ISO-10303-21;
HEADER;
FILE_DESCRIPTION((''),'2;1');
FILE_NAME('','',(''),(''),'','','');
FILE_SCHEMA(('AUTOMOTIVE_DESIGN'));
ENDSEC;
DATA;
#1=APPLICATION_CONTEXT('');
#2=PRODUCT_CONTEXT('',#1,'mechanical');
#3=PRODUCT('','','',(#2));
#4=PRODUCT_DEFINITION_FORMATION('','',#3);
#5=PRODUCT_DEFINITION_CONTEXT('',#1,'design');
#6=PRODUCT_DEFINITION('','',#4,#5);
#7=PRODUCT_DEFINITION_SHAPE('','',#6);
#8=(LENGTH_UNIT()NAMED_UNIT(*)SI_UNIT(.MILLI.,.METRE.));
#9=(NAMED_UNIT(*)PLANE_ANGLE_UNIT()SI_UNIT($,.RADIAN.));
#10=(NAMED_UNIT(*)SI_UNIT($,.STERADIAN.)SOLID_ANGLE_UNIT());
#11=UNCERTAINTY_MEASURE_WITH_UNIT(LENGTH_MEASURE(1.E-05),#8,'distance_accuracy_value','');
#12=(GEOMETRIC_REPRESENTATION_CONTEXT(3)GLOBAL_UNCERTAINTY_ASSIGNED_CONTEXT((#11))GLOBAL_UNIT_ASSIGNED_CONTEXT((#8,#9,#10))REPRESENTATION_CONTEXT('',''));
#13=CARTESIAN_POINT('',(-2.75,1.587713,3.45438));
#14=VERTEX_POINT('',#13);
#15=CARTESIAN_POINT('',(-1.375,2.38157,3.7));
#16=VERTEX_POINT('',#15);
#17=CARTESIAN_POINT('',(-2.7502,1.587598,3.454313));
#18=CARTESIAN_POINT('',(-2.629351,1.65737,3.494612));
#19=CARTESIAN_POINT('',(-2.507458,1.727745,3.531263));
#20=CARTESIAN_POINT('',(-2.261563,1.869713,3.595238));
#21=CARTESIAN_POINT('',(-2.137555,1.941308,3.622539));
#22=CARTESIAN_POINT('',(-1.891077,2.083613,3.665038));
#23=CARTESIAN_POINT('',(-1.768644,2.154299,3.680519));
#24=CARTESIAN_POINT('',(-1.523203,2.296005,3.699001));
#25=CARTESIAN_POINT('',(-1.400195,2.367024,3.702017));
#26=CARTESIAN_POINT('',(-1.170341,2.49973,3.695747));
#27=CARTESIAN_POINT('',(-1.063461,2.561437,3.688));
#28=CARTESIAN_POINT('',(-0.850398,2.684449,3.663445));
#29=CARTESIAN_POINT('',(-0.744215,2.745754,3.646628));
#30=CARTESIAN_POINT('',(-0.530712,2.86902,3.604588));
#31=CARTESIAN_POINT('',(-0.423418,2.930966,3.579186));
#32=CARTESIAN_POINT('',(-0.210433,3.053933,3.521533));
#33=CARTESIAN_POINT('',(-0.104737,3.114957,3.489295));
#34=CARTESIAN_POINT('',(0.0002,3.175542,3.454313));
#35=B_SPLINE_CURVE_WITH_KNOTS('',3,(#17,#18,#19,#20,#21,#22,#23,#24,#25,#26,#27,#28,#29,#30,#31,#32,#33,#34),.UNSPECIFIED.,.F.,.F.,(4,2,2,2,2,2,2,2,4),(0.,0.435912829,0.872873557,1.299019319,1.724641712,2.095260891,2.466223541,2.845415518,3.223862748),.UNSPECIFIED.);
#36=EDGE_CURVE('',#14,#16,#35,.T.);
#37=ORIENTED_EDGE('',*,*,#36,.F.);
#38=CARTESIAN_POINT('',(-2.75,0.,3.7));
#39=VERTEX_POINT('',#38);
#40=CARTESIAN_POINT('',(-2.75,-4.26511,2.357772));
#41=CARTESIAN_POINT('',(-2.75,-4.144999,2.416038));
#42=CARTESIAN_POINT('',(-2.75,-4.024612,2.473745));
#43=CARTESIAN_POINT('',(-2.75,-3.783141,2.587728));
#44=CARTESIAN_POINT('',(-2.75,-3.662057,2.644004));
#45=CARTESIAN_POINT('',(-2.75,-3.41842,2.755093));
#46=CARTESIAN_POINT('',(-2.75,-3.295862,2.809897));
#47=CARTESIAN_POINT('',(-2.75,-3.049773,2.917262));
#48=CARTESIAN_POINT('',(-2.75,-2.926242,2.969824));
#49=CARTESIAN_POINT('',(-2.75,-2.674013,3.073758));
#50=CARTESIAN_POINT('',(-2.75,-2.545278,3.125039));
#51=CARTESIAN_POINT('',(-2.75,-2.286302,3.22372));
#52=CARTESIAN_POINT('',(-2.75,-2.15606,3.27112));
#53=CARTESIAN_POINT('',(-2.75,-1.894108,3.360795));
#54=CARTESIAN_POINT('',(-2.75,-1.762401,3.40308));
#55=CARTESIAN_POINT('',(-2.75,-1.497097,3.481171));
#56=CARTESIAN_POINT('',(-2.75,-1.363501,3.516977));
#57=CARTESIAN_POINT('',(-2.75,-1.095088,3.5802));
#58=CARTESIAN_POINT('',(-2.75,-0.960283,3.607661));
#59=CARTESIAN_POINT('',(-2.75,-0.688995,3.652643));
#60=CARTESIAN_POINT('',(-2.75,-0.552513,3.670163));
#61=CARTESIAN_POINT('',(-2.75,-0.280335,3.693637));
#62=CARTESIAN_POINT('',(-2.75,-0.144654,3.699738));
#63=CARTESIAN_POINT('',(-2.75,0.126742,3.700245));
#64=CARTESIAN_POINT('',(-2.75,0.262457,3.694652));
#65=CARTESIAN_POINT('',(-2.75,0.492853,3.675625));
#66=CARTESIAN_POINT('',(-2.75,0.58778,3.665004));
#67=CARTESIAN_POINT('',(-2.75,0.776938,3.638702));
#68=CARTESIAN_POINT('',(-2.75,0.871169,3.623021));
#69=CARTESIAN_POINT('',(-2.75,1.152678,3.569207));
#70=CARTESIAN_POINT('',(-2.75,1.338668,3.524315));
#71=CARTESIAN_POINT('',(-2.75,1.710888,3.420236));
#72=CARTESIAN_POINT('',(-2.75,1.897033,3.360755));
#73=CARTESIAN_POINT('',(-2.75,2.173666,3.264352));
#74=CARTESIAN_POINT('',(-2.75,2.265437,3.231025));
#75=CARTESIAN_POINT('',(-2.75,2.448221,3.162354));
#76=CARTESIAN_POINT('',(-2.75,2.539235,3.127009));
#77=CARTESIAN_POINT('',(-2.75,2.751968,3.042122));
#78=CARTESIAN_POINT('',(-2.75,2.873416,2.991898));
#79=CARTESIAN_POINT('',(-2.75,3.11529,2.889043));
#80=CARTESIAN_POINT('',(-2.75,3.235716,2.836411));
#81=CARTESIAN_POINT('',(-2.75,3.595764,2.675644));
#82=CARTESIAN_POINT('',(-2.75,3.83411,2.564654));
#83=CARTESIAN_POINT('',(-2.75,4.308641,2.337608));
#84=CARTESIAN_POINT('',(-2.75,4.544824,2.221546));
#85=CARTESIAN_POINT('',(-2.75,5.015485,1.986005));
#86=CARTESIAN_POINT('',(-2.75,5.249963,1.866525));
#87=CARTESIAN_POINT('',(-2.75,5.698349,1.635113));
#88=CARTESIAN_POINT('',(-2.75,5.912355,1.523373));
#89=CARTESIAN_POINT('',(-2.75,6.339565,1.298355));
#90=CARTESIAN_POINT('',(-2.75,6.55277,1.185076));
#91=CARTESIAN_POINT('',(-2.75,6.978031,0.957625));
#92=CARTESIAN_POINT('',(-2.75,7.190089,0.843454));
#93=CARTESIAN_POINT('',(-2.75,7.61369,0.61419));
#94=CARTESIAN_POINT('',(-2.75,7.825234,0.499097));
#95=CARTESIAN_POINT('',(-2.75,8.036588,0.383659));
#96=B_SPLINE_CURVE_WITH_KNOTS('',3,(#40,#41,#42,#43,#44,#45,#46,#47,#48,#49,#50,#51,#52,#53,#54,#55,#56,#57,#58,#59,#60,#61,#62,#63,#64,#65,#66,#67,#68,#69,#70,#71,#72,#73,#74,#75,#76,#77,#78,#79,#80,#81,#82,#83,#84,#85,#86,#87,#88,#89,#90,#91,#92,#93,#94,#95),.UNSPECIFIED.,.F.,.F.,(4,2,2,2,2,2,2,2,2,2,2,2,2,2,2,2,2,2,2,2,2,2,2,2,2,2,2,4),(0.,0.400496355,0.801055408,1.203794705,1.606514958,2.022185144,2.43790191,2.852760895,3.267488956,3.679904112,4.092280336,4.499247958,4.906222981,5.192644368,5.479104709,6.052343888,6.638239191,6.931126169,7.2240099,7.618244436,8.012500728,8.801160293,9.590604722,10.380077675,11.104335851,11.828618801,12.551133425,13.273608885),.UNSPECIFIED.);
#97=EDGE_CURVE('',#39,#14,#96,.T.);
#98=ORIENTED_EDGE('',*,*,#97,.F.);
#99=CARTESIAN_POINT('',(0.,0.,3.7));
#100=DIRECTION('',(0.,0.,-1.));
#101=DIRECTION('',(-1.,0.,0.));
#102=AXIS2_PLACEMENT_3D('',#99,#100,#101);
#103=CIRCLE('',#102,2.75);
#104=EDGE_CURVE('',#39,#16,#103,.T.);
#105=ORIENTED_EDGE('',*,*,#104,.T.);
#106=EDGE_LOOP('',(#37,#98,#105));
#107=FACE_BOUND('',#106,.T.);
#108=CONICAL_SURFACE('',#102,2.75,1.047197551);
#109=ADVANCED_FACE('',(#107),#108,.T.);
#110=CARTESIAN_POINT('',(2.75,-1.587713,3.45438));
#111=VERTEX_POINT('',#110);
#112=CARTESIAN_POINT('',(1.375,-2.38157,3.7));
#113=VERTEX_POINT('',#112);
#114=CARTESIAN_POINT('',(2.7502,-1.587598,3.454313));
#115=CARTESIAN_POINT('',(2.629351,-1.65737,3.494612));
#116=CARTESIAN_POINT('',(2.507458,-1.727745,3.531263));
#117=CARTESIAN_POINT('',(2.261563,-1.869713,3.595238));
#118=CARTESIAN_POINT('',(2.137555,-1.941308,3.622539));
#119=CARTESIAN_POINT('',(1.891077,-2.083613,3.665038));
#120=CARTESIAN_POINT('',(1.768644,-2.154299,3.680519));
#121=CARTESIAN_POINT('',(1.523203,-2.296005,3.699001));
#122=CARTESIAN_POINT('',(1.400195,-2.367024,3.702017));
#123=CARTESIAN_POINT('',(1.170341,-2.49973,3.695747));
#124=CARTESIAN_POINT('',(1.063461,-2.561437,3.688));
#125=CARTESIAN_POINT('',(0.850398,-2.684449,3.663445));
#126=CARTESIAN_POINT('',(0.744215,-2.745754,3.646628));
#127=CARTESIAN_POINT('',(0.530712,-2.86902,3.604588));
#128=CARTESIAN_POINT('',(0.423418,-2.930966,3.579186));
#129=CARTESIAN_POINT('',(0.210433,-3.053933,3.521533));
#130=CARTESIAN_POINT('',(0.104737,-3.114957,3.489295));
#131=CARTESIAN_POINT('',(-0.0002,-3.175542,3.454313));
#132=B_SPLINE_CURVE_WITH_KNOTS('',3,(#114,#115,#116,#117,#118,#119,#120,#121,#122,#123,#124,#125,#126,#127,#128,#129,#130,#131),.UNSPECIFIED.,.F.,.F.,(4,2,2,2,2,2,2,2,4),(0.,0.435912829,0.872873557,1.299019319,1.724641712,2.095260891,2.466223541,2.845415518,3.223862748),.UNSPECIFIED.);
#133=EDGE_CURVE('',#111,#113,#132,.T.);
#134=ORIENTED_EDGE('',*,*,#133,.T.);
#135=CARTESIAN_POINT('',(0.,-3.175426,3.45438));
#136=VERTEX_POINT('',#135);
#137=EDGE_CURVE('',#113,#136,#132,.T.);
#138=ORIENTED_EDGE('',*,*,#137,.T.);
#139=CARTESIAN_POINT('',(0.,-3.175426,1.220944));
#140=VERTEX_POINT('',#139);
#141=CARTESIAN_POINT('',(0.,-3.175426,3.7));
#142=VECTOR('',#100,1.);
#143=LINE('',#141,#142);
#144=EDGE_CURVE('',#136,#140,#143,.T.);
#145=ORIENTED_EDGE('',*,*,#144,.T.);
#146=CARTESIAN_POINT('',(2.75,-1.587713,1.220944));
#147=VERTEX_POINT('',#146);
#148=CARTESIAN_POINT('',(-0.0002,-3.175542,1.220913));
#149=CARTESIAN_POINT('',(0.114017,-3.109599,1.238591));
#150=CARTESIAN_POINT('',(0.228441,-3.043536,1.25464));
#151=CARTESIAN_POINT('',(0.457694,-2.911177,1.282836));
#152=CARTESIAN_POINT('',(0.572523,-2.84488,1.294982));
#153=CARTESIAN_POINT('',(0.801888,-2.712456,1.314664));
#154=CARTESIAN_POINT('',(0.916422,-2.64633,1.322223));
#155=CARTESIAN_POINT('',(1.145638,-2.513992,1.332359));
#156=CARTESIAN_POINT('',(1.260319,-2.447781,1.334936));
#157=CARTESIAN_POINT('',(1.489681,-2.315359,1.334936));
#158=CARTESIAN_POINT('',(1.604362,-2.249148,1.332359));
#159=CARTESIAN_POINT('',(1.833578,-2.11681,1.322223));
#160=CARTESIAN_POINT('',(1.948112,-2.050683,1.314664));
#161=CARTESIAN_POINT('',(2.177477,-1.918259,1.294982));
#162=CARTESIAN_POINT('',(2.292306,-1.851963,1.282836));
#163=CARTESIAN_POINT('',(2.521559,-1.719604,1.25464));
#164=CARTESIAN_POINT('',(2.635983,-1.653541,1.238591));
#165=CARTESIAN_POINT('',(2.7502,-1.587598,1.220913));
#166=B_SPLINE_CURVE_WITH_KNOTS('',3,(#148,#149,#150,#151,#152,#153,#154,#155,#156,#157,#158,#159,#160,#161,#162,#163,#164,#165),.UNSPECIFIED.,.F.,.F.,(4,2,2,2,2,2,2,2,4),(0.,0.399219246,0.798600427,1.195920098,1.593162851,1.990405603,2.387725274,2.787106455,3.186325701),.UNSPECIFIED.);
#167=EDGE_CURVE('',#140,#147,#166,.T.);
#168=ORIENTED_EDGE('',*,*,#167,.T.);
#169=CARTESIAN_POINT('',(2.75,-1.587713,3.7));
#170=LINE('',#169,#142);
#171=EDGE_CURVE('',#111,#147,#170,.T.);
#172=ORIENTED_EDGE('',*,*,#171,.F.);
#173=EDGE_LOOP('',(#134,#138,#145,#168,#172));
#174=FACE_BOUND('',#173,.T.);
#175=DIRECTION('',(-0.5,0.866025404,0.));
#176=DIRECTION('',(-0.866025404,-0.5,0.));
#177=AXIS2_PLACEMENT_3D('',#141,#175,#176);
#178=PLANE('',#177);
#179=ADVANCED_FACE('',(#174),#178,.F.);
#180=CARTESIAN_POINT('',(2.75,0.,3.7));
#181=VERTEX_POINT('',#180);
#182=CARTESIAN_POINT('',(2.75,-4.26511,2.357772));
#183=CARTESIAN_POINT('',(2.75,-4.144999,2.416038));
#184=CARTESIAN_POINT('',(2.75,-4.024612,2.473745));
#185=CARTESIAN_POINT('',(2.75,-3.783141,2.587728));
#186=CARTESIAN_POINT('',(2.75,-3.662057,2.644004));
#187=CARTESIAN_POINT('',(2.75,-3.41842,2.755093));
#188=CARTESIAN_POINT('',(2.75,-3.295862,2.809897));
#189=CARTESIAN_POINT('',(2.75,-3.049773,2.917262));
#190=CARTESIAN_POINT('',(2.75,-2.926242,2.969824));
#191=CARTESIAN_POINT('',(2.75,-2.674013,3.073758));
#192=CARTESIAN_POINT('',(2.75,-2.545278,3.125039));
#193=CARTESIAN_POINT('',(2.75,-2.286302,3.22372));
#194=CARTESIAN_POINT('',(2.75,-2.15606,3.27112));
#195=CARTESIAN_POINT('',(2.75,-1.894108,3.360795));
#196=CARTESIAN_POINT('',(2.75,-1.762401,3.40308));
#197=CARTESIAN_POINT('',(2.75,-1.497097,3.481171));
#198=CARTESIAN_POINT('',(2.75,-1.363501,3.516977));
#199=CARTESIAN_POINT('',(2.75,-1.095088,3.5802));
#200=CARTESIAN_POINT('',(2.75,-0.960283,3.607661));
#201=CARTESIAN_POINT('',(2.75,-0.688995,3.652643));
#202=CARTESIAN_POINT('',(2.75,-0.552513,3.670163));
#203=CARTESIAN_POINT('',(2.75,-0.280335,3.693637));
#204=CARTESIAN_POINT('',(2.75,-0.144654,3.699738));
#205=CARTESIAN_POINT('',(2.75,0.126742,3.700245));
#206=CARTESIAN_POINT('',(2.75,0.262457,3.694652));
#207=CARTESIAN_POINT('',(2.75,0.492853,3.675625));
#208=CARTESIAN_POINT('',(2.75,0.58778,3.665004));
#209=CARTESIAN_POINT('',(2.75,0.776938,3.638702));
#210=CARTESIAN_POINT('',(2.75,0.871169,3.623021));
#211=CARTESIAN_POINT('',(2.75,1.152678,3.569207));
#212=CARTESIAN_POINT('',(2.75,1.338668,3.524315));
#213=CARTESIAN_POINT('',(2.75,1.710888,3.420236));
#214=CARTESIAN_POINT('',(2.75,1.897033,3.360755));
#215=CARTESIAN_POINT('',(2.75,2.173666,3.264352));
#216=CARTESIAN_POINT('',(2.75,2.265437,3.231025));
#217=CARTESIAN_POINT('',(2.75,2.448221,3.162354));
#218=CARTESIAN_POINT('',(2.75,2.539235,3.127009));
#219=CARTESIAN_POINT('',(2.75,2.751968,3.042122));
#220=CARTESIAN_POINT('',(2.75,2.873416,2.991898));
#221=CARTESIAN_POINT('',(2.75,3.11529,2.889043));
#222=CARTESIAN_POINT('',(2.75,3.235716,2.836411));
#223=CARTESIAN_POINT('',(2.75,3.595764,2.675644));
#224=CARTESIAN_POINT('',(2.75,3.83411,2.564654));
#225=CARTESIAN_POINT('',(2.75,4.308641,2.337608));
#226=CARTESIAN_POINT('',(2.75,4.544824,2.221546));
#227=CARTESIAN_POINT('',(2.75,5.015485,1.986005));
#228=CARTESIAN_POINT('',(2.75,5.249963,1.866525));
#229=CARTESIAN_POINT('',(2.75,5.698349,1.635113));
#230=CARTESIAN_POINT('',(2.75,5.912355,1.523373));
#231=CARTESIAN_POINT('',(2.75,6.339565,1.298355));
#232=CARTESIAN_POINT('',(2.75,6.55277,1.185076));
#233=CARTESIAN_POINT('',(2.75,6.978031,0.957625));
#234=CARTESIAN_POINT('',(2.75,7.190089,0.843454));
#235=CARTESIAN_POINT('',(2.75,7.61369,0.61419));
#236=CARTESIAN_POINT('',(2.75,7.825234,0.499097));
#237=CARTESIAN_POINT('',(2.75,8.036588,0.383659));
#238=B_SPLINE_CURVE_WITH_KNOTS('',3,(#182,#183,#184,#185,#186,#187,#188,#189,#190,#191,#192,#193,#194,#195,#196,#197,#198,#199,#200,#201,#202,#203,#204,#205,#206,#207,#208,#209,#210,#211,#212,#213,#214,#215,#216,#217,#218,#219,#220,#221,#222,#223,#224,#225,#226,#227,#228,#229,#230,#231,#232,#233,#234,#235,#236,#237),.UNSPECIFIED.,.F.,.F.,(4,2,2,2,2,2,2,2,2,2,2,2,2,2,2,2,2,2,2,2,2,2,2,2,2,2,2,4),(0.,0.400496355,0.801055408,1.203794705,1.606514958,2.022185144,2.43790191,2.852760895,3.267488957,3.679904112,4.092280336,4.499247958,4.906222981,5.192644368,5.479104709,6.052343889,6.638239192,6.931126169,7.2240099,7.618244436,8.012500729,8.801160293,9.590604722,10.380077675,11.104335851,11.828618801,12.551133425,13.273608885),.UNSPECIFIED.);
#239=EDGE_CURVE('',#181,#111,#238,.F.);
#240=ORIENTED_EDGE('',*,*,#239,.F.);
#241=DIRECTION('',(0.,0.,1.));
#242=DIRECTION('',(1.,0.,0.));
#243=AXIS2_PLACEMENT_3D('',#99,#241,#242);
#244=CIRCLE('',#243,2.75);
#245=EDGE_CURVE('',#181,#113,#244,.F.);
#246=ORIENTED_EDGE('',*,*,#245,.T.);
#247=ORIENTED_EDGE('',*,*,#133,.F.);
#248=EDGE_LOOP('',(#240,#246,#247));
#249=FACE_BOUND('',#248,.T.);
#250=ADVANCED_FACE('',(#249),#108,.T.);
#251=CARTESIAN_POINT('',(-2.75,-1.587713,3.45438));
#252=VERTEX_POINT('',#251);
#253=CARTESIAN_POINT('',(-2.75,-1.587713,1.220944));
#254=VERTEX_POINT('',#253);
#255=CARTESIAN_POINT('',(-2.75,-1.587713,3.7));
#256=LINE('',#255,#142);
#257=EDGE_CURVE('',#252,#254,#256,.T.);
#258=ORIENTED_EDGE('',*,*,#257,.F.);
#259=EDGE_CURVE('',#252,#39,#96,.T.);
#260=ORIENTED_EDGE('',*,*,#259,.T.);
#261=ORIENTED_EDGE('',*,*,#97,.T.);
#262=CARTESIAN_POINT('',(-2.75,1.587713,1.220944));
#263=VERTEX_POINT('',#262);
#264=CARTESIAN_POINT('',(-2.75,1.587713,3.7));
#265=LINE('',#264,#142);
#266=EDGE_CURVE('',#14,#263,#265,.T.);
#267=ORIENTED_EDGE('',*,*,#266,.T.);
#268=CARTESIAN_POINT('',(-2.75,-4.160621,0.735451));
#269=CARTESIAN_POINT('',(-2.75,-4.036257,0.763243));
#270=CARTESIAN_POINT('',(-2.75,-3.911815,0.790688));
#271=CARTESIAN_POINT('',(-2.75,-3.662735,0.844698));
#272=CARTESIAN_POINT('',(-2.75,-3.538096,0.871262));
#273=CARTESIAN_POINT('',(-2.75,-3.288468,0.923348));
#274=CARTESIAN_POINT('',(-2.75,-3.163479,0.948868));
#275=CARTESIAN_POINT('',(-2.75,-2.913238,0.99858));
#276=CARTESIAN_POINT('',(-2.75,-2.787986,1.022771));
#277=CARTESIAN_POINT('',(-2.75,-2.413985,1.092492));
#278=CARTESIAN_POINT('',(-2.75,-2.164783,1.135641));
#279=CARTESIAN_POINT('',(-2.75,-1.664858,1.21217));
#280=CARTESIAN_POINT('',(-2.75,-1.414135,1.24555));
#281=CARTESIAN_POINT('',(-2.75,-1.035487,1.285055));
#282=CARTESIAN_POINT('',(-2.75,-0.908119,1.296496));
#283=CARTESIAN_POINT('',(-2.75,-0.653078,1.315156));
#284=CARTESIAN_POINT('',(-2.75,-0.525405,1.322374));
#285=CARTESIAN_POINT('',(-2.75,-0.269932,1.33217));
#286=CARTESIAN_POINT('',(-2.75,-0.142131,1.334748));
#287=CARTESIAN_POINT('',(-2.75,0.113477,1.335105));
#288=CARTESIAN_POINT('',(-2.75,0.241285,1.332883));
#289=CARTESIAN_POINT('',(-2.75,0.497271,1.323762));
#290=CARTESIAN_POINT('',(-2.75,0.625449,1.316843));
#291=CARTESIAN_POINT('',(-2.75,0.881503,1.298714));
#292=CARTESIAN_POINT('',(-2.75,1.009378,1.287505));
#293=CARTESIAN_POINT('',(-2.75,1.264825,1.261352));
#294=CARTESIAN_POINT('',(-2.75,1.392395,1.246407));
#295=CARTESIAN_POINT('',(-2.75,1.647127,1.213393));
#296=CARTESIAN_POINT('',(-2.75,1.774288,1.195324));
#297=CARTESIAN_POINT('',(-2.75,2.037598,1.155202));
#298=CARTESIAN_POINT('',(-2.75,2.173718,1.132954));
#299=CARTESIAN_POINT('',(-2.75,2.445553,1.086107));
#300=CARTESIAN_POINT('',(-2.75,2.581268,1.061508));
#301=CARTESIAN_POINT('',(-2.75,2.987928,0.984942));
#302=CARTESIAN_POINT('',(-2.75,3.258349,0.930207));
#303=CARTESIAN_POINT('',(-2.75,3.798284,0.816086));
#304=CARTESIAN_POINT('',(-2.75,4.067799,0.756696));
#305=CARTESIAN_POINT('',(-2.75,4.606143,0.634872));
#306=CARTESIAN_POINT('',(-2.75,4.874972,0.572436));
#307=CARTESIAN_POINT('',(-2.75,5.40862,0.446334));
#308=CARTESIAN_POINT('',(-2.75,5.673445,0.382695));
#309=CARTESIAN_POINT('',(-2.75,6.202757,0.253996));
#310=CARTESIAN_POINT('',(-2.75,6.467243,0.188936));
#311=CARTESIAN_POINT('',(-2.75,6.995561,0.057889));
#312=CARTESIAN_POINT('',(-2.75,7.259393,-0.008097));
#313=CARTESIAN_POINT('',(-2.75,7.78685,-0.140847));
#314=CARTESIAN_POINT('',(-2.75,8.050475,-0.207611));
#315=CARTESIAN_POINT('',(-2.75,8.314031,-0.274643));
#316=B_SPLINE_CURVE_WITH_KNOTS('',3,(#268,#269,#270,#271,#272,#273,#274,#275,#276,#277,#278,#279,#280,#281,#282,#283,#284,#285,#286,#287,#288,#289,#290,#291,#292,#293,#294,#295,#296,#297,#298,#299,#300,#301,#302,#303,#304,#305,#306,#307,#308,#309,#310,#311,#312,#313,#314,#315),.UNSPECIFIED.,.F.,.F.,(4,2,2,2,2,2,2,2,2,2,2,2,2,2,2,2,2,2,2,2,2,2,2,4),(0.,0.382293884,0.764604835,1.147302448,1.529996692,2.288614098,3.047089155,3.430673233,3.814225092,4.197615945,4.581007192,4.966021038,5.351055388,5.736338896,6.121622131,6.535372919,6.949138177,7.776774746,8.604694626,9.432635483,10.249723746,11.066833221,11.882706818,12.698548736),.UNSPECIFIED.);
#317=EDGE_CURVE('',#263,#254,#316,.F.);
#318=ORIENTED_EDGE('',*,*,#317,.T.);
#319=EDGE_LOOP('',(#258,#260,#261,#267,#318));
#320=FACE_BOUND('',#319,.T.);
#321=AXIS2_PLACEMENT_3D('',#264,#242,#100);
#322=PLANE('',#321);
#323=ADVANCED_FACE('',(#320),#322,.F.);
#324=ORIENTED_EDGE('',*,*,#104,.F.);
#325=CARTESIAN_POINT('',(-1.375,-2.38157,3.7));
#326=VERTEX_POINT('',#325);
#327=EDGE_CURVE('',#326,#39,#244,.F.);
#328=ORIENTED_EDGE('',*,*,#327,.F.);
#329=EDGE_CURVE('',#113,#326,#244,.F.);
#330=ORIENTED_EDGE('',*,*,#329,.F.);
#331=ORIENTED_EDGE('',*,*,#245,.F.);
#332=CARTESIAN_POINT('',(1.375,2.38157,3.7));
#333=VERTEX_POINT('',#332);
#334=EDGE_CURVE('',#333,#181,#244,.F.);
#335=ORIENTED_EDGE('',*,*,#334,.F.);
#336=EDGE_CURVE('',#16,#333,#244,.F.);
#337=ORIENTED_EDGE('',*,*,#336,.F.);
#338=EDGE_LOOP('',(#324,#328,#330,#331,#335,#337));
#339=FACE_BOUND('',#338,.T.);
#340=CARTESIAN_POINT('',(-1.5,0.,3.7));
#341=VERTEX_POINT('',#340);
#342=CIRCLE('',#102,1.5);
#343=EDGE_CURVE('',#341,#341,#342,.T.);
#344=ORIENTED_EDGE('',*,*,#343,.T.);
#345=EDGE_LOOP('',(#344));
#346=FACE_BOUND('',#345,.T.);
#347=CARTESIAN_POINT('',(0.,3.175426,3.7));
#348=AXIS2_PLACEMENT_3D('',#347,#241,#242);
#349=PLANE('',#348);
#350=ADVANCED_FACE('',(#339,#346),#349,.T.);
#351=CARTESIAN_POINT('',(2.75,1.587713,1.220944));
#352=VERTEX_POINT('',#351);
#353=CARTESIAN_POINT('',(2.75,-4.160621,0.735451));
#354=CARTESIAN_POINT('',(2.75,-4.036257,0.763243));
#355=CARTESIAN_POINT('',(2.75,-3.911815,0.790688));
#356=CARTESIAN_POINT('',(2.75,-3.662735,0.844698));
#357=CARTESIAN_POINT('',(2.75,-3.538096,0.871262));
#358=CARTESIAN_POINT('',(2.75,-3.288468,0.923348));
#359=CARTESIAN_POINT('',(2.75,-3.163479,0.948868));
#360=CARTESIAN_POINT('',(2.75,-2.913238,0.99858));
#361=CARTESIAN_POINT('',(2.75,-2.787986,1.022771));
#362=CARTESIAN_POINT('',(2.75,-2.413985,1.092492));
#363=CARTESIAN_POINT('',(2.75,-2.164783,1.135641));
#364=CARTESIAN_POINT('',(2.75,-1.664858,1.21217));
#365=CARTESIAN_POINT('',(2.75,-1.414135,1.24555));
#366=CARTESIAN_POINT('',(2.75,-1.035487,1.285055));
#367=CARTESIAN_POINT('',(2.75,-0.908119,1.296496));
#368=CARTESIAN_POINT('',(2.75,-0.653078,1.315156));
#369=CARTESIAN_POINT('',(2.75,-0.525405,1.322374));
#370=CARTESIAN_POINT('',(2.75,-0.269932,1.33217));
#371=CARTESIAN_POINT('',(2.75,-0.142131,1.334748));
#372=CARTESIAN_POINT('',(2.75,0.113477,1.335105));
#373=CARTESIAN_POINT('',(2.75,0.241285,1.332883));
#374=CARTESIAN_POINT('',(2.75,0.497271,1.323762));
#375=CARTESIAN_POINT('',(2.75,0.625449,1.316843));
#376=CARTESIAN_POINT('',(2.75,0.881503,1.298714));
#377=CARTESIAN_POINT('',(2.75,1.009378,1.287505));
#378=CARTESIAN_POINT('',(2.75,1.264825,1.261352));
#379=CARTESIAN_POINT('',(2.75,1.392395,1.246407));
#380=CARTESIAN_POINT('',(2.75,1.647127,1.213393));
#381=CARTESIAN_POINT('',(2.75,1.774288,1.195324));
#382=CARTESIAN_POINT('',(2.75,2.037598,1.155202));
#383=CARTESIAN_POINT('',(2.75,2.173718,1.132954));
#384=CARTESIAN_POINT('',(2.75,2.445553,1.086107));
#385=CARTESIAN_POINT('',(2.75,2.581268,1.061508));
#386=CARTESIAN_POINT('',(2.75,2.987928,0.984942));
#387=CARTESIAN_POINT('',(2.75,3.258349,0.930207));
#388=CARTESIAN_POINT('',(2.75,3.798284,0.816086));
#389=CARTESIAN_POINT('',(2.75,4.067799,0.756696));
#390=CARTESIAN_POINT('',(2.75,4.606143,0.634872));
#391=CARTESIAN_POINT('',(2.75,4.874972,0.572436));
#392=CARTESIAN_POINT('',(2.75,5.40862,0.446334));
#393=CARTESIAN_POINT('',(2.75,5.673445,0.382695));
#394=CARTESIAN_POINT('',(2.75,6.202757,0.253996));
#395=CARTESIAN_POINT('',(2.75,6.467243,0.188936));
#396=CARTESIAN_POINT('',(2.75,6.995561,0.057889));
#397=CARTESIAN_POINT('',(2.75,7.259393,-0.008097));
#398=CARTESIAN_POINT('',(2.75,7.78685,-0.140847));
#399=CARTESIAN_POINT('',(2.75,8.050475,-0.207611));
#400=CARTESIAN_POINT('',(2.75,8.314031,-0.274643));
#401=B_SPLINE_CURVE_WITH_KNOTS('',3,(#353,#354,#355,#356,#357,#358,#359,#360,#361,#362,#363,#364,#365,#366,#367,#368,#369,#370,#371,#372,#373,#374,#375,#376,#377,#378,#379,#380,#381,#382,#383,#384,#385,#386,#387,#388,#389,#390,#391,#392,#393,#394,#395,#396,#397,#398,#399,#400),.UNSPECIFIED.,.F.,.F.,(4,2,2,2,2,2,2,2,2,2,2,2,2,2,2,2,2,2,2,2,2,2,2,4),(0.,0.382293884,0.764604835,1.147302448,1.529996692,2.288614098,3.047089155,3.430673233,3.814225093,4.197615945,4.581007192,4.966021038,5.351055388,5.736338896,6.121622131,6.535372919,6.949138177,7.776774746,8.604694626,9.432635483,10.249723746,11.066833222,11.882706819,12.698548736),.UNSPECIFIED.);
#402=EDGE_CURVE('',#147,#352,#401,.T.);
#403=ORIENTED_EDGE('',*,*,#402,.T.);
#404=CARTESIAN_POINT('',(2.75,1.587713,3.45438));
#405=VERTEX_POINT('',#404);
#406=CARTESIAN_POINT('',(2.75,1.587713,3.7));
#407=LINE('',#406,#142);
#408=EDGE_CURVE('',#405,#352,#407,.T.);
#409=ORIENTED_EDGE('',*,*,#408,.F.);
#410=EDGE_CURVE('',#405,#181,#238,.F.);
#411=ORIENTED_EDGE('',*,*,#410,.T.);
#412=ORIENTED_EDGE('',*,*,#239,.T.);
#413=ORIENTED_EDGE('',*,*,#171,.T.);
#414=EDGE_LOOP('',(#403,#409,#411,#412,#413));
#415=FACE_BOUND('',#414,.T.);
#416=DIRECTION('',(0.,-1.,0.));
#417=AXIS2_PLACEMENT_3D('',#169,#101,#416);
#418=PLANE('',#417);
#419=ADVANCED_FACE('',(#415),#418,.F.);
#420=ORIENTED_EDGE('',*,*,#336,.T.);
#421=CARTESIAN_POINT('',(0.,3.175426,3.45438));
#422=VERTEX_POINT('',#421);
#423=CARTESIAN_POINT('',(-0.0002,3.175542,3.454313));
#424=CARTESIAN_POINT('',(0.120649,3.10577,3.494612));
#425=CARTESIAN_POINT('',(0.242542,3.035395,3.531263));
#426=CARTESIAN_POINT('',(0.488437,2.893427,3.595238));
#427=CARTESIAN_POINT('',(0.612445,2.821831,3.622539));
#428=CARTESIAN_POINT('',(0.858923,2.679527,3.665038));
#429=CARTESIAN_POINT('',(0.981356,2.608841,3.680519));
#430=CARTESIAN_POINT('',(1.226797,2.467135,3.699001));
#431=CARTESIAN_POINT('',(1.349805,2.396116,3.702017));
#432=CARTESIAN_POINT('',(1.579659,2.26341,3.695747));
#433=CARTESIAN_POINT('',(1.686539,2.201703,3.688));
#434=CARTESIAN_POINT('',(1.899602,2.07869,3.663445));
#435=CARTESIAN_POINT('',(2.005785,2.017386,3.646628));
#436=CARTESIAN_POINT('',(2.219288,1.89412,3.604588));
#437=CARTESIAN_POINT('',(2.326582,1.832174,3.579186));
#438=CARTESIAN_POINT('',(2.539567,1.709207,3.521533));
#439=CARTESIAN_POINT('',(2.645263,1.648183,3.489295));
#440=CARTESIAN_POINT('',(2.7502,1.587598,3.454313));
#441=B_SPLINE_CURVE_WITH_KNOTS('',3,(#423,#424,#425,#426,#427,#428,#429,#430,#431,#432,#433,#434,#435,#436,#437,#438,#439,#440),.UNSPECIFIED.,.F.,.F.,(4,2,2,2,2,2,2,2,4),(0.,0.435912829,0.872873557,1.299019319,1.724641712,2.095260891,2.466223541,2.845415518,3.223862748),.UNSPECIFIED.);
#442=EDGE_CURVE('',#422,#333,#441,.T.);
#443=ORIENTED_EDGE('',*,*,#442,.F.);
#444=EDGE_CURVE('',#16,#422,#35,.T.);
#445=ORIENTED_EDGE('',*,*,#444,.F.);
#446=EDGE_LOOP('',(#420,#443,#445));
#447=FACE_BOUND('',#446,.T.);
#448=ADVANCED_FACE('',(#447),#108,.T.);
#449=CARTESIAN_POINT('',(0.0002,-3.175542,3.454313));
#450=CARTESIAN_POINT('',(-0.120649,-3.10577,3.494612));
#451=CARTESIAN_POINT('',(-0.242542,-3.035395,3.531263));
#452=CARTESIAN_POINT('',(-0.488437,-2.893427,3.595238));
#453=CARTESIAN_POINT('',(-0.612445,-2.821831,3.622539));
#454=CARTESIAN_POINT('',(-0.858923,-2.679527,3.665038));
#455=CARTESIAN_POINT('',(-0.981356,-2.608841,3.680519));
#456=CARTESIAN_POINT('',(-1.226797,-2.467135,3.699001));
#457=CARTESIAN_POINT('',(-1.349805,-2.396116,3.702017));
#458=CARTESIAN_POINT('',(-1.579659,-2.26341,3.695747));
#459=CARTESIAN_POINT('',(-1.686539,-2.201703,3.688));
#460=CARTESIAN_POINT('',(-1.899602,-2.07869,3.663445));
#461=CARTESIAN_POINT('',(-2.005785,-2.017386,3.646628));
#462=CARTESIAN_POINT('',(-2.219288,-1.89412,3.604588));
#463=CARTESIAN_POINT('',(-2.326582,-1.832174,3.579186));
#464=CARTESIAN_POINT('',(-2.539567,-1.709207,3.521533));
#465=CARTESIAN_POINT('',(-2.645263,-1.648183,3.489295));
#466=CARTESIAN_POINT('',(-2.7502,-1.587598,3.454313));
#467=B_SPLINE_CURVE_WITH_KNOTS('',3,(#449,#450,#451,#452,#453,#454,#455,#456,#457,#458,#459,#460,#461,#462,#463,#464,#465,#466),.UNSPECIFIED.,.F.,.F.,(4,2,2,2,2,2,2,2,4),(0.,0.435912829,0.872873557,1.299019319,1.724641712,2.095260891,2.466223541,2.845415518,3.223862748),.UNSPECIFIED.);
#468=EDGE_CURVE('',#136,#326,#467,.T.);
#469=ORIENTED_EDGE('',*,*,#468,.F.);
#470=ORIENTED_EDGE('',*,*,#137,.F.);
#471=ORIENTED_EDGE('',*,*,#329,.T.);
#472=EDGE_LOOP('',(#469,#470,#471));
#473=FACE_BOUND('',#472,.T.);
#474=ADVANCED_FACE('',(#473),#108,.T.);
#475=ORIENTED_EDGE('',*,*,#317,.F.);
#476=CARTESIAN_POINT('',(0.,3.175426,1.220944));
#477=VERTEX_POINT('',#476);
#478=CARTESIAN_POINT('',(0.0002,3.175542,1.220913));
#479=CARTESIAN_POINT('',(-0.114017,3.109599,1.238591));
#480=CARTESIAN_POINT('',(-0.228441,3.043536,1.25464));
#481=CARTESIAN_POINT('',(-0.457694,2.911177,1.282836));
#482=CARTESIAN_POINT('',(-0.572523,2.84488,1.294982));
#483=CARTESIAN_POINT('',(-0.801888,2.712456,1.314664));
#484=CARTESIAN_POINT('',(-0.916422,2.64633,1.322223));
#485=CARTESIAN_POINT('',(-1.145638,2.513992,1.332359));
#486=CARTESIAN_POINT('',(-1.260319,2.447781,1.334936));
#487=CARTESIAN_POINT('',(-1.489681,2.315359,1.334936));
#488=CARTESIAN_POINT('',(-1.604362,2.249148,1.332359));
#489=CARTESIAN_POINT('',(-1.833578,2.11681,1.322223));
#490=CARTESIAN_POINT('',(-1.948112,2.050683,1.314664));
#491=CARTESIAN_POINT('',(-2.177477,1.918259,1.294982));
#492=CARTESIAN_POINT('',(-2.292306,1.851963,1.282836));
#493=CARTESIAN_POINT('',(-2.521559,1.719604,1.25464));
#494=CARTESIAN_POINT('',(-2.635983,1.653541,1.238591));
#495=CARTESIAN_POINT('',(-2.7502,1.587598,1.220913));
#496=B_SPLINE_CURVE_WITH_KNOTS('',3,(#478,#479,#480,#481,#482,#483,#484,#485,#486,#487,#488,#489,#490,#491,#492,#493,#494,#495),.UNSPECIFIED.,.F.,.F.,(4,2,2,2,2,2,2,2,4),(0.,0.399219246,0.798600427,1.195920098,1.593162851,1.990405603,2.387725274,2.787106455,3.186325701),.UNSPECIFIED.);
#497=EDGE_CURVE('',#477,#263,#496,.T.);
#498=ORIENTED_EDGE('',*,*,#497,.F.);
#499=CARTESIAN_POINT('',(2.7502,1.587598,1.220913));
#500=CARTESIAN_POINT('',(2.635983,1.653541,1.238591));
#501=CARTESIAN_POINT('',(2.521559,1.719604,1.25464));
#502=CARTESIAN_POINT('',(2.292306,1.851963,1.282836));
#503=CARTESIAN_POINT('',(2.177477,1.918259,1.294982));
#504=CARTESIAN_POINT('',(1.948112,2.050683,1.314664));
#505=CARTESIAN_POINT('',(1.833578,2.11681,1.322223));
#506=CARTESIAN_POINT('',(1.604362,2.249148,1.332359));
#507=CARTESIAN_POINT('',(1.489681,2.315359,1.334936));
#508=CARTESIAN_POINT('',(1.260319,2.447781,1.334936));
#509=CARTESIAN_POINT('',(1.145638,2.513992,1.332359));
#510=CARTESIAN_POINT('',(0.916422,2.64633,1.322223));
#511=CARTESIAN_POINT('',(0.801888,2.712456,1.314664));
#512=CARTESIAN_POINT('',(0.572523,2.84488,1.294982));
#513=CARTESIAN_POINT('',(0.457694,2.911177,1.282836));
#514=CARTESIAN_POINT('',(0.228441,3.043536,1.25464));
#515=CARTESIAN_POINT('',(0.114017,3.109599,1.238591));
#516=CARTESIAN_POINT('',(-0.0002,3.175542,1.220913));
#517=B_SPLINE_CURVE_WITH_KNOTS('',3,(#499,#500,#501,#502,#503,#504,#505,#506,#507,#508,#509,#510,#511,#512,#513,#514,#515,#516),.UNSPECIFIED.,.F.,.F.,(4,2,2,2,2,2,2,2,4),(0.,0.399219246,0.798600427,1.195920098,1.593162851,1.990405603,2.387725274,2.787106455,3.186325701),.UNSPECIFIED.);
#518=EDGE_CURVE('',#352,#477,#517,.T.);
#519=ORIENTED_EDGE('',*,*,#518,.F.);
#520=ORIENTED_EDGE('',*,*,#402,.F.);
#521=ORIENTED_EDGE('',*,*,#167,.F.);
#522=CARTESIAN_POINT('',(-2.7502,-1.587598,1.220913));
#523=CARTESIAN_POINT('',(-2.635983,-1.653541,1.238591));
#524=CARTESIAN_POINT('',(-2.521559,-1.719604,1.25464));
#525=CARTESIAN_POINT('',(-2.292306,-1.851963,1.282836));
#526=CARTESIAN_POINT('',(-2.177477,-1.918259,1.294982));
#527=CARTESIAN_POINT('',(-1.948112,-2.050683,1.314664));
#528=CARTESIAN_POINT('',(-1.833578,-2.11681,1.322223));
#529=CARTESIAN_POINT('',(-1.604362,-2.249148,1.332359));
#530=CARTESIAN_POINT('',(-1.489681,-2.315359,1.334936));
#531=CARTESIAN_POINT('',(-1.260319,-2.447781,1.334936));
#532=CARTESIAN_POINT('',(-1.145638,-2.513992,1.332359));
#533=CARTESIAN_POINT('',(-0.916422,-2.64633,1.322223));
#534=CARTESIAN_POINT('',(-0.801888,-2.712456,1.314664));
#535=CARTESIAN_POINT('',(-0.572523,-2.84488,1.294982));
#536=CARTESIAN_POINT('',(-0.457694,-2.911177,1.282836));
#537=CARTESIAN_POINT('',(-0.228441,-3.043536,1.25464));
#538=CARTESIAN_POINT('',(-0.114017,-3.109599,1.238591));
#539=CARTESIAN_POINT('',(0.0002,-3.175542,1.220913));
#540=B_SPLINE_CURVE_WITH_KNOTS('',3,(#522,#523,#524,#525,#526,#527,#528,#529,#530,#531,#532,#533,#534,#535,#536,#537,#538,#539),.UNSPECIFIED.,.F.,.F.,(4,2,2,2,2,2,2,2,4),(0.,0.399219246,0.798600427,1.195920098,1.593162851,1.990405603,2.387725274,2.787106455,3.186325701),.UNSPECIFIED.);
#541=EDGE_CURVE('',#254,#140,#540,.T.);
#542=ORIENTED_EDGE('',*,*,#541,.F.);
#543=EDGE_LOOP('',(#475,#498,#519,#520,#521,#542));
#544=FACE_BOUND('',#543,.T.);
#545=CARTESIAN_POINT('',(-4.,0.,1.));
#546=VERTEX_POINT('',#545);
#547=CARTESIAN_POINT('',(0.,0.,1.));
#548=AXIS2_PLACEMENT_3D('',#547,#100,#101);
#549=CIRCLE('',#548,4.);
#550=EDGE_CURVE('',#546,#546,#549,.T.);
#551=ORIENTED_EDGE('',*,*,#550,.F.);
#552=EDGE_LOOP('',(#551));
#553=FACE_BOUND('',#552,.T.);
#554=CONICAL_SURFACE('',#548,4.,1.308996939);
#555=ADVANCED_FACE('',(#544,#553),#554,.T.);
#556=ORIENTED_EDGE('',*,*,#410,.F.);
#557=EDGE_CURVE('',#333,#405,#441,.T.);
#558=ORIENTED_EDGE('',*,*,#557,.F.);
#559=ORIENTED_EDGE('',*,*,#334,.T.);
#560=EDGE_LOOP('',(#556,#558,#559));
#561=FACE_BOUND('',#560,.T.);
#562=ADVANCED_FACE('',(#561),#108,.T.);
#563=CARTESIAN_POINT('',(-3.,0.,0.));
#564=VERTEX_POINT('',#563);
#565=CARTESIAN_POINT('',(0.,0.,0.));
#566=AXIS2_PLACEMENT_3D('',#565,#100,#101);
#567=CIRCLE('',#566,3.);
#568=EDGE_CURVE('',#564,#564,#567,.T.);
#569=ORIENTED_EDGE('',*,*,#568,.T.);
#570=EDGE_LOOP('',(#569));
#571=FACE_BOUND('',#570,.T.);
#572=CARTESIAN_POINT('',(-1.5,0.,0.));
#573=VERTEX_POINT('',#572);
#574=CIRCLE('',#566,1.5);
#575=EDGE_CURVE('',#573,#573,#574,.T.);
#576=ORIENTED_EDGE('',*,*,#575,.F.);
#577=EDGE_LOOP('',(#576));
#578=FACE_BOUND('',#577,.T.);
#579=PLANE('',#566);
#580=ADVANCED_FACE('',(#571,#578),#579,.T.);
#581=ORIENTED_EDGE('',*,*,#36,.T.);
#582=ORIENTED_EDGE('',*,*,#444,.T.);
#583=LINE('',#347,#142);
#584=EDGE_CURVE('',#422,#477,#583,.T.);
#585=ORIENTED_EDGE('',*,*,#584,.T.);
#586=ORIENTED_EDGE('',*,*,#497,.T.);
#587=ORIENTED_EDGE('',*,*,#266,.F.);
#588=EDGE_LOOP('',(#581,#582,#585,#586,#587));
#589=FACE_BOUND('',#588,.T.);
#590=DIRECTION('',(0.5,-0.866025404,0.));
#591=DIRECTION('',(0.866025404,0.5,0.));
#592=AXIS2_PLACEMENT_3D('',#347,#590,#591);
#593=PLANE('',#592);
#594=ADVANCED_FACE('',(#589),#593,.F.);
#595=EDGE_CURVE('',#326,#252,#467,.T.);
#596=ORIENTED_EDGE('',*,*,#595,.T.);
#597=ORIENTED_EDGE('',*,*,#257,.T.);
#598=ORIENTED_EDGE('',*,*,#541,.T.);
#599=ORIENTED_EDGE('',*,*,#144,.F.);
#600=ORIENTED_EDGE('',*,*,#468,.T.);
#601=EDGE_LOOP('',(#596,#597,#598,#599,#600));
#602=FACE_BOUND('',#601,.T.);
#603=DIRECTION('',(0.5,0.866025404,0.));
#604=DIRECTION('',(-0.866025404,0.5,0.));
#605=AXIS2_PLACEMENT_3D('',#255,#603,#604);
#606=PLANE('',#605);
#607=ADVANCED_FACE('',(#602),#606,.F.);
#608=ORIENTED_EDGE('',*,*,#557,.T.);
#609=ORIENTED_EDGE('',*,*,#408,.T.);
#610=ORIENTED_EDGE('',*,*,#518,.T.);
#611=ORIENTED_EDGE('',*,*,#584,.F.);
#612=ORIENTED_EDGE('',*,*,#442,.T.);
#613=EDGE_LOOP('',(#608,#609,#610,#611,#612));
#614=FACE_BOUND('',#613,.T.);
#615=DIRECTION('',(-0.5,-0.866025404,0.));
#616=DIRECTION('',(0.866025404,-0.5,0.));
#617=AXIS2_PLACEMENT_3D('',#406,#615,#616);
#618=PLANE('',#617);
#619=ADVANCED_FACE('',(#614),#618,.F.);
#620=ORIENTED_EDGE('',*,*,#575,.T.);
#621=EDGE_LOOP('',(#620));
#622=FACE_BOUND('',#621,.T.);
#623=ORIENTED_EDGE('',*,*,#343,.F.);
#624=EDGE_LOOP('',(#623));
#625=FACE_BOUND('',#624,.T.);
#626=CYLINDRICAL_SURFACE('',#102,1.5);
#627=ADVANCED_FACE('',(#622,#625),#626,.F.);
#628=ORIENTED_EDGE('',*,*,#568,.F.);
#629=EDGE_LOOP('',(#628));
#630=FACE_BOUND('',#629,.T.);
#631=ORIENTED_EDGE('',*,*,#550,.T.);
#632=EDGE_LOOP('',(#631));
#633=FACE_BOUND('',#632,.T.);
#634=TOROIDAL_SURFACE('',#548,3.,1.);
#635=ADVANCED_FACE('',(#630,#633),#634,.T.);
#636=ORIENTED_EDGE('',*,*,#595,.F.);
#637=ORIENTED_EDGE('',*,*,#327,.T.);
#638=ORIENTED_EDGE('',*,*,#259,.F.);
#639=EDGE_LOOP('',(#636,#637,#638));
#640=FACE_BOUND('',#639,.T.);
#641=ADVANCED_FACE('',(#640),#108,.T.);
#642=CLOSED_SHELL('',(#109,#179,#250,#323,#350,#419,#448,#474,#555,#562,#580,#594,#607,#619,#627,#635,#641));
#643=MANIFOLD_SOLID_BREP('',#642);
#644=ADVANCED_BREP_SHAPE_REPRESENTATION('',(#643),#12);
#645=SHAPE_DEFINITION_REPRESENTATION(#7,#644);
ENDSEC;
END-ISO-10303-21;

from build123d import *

# Parameters (mm, degrees)
EXTRUDE1_DEPTH     = 2.7
SKETCH4_R          = 1.5
CUT_EXTRUDE1_DEPTH = 7.759437846


with BuildPart() as part:
    # Sketch1 → Extrude1 (new body)
    with BuildSketch(Plane.XY.offset(1)):
        Polygon((0, 3.175426481), (-2.75, 1.58771324), (-2.75, -1.58771324), (0, -3.175426481), (2.75, -1.58771324), (2.75, 1.58771324), align=None)
    extrude(amount=EXTRUDE1_DEPTH)

    # Sketch2 → Revolve1 (revolve)
    with BuildSketch(Plane(origin=(0, 0, 0), x_dir=(0, 0, -1), z_dir=(1, 0, 0)), mode=Mode.PRIVATE) as revolve1_sk:
        with BuildLine():
            Line((0, 0), (0, 3))
            ThreePointArc((0, 3), (-0.292893219, 3.707106781), (-1, 4))
            Line((-1, 4), (-2.07179677, 0))
            Line((-2.07179677, 0), (0, 0))
        make_face()
    revolve(revolve1_sk.sketch.rotate(Axis((0, 0, 0), (0, 0, 1)), 90), axis=Axis((0, 0, 0), (0, 0, 1)))

    # Sketch3 → Cut-Revolve1 (revolve, cut)
    with BuildSketch(Plane(origin=(0, 0, 0), x_dir=(1, 0, 0), z_dir=(0, 1, 0))):
        Polygon((-2.75, -3.7), (-3.85, -3.7), (-3.85, -3.064914704), align=None)
    revolve(axis=Axis((0, 0, 0), (0, 0, 1)), mode=Mode.SUBTRACT)

    # Sketch4 → Cut-Extrude1 (cut, through all)
    with BuildSketch(Plane(origin=(0, 0, 0), x_dir=(-1, 0, 0), z_dir=(0, 0, -1))):
        Circle(SKETCH4_R)
    extrude(amount=-CUT_EXTRUDE1_DEPTH, mode=Mode.SUBTRACT)


solid = part.part
